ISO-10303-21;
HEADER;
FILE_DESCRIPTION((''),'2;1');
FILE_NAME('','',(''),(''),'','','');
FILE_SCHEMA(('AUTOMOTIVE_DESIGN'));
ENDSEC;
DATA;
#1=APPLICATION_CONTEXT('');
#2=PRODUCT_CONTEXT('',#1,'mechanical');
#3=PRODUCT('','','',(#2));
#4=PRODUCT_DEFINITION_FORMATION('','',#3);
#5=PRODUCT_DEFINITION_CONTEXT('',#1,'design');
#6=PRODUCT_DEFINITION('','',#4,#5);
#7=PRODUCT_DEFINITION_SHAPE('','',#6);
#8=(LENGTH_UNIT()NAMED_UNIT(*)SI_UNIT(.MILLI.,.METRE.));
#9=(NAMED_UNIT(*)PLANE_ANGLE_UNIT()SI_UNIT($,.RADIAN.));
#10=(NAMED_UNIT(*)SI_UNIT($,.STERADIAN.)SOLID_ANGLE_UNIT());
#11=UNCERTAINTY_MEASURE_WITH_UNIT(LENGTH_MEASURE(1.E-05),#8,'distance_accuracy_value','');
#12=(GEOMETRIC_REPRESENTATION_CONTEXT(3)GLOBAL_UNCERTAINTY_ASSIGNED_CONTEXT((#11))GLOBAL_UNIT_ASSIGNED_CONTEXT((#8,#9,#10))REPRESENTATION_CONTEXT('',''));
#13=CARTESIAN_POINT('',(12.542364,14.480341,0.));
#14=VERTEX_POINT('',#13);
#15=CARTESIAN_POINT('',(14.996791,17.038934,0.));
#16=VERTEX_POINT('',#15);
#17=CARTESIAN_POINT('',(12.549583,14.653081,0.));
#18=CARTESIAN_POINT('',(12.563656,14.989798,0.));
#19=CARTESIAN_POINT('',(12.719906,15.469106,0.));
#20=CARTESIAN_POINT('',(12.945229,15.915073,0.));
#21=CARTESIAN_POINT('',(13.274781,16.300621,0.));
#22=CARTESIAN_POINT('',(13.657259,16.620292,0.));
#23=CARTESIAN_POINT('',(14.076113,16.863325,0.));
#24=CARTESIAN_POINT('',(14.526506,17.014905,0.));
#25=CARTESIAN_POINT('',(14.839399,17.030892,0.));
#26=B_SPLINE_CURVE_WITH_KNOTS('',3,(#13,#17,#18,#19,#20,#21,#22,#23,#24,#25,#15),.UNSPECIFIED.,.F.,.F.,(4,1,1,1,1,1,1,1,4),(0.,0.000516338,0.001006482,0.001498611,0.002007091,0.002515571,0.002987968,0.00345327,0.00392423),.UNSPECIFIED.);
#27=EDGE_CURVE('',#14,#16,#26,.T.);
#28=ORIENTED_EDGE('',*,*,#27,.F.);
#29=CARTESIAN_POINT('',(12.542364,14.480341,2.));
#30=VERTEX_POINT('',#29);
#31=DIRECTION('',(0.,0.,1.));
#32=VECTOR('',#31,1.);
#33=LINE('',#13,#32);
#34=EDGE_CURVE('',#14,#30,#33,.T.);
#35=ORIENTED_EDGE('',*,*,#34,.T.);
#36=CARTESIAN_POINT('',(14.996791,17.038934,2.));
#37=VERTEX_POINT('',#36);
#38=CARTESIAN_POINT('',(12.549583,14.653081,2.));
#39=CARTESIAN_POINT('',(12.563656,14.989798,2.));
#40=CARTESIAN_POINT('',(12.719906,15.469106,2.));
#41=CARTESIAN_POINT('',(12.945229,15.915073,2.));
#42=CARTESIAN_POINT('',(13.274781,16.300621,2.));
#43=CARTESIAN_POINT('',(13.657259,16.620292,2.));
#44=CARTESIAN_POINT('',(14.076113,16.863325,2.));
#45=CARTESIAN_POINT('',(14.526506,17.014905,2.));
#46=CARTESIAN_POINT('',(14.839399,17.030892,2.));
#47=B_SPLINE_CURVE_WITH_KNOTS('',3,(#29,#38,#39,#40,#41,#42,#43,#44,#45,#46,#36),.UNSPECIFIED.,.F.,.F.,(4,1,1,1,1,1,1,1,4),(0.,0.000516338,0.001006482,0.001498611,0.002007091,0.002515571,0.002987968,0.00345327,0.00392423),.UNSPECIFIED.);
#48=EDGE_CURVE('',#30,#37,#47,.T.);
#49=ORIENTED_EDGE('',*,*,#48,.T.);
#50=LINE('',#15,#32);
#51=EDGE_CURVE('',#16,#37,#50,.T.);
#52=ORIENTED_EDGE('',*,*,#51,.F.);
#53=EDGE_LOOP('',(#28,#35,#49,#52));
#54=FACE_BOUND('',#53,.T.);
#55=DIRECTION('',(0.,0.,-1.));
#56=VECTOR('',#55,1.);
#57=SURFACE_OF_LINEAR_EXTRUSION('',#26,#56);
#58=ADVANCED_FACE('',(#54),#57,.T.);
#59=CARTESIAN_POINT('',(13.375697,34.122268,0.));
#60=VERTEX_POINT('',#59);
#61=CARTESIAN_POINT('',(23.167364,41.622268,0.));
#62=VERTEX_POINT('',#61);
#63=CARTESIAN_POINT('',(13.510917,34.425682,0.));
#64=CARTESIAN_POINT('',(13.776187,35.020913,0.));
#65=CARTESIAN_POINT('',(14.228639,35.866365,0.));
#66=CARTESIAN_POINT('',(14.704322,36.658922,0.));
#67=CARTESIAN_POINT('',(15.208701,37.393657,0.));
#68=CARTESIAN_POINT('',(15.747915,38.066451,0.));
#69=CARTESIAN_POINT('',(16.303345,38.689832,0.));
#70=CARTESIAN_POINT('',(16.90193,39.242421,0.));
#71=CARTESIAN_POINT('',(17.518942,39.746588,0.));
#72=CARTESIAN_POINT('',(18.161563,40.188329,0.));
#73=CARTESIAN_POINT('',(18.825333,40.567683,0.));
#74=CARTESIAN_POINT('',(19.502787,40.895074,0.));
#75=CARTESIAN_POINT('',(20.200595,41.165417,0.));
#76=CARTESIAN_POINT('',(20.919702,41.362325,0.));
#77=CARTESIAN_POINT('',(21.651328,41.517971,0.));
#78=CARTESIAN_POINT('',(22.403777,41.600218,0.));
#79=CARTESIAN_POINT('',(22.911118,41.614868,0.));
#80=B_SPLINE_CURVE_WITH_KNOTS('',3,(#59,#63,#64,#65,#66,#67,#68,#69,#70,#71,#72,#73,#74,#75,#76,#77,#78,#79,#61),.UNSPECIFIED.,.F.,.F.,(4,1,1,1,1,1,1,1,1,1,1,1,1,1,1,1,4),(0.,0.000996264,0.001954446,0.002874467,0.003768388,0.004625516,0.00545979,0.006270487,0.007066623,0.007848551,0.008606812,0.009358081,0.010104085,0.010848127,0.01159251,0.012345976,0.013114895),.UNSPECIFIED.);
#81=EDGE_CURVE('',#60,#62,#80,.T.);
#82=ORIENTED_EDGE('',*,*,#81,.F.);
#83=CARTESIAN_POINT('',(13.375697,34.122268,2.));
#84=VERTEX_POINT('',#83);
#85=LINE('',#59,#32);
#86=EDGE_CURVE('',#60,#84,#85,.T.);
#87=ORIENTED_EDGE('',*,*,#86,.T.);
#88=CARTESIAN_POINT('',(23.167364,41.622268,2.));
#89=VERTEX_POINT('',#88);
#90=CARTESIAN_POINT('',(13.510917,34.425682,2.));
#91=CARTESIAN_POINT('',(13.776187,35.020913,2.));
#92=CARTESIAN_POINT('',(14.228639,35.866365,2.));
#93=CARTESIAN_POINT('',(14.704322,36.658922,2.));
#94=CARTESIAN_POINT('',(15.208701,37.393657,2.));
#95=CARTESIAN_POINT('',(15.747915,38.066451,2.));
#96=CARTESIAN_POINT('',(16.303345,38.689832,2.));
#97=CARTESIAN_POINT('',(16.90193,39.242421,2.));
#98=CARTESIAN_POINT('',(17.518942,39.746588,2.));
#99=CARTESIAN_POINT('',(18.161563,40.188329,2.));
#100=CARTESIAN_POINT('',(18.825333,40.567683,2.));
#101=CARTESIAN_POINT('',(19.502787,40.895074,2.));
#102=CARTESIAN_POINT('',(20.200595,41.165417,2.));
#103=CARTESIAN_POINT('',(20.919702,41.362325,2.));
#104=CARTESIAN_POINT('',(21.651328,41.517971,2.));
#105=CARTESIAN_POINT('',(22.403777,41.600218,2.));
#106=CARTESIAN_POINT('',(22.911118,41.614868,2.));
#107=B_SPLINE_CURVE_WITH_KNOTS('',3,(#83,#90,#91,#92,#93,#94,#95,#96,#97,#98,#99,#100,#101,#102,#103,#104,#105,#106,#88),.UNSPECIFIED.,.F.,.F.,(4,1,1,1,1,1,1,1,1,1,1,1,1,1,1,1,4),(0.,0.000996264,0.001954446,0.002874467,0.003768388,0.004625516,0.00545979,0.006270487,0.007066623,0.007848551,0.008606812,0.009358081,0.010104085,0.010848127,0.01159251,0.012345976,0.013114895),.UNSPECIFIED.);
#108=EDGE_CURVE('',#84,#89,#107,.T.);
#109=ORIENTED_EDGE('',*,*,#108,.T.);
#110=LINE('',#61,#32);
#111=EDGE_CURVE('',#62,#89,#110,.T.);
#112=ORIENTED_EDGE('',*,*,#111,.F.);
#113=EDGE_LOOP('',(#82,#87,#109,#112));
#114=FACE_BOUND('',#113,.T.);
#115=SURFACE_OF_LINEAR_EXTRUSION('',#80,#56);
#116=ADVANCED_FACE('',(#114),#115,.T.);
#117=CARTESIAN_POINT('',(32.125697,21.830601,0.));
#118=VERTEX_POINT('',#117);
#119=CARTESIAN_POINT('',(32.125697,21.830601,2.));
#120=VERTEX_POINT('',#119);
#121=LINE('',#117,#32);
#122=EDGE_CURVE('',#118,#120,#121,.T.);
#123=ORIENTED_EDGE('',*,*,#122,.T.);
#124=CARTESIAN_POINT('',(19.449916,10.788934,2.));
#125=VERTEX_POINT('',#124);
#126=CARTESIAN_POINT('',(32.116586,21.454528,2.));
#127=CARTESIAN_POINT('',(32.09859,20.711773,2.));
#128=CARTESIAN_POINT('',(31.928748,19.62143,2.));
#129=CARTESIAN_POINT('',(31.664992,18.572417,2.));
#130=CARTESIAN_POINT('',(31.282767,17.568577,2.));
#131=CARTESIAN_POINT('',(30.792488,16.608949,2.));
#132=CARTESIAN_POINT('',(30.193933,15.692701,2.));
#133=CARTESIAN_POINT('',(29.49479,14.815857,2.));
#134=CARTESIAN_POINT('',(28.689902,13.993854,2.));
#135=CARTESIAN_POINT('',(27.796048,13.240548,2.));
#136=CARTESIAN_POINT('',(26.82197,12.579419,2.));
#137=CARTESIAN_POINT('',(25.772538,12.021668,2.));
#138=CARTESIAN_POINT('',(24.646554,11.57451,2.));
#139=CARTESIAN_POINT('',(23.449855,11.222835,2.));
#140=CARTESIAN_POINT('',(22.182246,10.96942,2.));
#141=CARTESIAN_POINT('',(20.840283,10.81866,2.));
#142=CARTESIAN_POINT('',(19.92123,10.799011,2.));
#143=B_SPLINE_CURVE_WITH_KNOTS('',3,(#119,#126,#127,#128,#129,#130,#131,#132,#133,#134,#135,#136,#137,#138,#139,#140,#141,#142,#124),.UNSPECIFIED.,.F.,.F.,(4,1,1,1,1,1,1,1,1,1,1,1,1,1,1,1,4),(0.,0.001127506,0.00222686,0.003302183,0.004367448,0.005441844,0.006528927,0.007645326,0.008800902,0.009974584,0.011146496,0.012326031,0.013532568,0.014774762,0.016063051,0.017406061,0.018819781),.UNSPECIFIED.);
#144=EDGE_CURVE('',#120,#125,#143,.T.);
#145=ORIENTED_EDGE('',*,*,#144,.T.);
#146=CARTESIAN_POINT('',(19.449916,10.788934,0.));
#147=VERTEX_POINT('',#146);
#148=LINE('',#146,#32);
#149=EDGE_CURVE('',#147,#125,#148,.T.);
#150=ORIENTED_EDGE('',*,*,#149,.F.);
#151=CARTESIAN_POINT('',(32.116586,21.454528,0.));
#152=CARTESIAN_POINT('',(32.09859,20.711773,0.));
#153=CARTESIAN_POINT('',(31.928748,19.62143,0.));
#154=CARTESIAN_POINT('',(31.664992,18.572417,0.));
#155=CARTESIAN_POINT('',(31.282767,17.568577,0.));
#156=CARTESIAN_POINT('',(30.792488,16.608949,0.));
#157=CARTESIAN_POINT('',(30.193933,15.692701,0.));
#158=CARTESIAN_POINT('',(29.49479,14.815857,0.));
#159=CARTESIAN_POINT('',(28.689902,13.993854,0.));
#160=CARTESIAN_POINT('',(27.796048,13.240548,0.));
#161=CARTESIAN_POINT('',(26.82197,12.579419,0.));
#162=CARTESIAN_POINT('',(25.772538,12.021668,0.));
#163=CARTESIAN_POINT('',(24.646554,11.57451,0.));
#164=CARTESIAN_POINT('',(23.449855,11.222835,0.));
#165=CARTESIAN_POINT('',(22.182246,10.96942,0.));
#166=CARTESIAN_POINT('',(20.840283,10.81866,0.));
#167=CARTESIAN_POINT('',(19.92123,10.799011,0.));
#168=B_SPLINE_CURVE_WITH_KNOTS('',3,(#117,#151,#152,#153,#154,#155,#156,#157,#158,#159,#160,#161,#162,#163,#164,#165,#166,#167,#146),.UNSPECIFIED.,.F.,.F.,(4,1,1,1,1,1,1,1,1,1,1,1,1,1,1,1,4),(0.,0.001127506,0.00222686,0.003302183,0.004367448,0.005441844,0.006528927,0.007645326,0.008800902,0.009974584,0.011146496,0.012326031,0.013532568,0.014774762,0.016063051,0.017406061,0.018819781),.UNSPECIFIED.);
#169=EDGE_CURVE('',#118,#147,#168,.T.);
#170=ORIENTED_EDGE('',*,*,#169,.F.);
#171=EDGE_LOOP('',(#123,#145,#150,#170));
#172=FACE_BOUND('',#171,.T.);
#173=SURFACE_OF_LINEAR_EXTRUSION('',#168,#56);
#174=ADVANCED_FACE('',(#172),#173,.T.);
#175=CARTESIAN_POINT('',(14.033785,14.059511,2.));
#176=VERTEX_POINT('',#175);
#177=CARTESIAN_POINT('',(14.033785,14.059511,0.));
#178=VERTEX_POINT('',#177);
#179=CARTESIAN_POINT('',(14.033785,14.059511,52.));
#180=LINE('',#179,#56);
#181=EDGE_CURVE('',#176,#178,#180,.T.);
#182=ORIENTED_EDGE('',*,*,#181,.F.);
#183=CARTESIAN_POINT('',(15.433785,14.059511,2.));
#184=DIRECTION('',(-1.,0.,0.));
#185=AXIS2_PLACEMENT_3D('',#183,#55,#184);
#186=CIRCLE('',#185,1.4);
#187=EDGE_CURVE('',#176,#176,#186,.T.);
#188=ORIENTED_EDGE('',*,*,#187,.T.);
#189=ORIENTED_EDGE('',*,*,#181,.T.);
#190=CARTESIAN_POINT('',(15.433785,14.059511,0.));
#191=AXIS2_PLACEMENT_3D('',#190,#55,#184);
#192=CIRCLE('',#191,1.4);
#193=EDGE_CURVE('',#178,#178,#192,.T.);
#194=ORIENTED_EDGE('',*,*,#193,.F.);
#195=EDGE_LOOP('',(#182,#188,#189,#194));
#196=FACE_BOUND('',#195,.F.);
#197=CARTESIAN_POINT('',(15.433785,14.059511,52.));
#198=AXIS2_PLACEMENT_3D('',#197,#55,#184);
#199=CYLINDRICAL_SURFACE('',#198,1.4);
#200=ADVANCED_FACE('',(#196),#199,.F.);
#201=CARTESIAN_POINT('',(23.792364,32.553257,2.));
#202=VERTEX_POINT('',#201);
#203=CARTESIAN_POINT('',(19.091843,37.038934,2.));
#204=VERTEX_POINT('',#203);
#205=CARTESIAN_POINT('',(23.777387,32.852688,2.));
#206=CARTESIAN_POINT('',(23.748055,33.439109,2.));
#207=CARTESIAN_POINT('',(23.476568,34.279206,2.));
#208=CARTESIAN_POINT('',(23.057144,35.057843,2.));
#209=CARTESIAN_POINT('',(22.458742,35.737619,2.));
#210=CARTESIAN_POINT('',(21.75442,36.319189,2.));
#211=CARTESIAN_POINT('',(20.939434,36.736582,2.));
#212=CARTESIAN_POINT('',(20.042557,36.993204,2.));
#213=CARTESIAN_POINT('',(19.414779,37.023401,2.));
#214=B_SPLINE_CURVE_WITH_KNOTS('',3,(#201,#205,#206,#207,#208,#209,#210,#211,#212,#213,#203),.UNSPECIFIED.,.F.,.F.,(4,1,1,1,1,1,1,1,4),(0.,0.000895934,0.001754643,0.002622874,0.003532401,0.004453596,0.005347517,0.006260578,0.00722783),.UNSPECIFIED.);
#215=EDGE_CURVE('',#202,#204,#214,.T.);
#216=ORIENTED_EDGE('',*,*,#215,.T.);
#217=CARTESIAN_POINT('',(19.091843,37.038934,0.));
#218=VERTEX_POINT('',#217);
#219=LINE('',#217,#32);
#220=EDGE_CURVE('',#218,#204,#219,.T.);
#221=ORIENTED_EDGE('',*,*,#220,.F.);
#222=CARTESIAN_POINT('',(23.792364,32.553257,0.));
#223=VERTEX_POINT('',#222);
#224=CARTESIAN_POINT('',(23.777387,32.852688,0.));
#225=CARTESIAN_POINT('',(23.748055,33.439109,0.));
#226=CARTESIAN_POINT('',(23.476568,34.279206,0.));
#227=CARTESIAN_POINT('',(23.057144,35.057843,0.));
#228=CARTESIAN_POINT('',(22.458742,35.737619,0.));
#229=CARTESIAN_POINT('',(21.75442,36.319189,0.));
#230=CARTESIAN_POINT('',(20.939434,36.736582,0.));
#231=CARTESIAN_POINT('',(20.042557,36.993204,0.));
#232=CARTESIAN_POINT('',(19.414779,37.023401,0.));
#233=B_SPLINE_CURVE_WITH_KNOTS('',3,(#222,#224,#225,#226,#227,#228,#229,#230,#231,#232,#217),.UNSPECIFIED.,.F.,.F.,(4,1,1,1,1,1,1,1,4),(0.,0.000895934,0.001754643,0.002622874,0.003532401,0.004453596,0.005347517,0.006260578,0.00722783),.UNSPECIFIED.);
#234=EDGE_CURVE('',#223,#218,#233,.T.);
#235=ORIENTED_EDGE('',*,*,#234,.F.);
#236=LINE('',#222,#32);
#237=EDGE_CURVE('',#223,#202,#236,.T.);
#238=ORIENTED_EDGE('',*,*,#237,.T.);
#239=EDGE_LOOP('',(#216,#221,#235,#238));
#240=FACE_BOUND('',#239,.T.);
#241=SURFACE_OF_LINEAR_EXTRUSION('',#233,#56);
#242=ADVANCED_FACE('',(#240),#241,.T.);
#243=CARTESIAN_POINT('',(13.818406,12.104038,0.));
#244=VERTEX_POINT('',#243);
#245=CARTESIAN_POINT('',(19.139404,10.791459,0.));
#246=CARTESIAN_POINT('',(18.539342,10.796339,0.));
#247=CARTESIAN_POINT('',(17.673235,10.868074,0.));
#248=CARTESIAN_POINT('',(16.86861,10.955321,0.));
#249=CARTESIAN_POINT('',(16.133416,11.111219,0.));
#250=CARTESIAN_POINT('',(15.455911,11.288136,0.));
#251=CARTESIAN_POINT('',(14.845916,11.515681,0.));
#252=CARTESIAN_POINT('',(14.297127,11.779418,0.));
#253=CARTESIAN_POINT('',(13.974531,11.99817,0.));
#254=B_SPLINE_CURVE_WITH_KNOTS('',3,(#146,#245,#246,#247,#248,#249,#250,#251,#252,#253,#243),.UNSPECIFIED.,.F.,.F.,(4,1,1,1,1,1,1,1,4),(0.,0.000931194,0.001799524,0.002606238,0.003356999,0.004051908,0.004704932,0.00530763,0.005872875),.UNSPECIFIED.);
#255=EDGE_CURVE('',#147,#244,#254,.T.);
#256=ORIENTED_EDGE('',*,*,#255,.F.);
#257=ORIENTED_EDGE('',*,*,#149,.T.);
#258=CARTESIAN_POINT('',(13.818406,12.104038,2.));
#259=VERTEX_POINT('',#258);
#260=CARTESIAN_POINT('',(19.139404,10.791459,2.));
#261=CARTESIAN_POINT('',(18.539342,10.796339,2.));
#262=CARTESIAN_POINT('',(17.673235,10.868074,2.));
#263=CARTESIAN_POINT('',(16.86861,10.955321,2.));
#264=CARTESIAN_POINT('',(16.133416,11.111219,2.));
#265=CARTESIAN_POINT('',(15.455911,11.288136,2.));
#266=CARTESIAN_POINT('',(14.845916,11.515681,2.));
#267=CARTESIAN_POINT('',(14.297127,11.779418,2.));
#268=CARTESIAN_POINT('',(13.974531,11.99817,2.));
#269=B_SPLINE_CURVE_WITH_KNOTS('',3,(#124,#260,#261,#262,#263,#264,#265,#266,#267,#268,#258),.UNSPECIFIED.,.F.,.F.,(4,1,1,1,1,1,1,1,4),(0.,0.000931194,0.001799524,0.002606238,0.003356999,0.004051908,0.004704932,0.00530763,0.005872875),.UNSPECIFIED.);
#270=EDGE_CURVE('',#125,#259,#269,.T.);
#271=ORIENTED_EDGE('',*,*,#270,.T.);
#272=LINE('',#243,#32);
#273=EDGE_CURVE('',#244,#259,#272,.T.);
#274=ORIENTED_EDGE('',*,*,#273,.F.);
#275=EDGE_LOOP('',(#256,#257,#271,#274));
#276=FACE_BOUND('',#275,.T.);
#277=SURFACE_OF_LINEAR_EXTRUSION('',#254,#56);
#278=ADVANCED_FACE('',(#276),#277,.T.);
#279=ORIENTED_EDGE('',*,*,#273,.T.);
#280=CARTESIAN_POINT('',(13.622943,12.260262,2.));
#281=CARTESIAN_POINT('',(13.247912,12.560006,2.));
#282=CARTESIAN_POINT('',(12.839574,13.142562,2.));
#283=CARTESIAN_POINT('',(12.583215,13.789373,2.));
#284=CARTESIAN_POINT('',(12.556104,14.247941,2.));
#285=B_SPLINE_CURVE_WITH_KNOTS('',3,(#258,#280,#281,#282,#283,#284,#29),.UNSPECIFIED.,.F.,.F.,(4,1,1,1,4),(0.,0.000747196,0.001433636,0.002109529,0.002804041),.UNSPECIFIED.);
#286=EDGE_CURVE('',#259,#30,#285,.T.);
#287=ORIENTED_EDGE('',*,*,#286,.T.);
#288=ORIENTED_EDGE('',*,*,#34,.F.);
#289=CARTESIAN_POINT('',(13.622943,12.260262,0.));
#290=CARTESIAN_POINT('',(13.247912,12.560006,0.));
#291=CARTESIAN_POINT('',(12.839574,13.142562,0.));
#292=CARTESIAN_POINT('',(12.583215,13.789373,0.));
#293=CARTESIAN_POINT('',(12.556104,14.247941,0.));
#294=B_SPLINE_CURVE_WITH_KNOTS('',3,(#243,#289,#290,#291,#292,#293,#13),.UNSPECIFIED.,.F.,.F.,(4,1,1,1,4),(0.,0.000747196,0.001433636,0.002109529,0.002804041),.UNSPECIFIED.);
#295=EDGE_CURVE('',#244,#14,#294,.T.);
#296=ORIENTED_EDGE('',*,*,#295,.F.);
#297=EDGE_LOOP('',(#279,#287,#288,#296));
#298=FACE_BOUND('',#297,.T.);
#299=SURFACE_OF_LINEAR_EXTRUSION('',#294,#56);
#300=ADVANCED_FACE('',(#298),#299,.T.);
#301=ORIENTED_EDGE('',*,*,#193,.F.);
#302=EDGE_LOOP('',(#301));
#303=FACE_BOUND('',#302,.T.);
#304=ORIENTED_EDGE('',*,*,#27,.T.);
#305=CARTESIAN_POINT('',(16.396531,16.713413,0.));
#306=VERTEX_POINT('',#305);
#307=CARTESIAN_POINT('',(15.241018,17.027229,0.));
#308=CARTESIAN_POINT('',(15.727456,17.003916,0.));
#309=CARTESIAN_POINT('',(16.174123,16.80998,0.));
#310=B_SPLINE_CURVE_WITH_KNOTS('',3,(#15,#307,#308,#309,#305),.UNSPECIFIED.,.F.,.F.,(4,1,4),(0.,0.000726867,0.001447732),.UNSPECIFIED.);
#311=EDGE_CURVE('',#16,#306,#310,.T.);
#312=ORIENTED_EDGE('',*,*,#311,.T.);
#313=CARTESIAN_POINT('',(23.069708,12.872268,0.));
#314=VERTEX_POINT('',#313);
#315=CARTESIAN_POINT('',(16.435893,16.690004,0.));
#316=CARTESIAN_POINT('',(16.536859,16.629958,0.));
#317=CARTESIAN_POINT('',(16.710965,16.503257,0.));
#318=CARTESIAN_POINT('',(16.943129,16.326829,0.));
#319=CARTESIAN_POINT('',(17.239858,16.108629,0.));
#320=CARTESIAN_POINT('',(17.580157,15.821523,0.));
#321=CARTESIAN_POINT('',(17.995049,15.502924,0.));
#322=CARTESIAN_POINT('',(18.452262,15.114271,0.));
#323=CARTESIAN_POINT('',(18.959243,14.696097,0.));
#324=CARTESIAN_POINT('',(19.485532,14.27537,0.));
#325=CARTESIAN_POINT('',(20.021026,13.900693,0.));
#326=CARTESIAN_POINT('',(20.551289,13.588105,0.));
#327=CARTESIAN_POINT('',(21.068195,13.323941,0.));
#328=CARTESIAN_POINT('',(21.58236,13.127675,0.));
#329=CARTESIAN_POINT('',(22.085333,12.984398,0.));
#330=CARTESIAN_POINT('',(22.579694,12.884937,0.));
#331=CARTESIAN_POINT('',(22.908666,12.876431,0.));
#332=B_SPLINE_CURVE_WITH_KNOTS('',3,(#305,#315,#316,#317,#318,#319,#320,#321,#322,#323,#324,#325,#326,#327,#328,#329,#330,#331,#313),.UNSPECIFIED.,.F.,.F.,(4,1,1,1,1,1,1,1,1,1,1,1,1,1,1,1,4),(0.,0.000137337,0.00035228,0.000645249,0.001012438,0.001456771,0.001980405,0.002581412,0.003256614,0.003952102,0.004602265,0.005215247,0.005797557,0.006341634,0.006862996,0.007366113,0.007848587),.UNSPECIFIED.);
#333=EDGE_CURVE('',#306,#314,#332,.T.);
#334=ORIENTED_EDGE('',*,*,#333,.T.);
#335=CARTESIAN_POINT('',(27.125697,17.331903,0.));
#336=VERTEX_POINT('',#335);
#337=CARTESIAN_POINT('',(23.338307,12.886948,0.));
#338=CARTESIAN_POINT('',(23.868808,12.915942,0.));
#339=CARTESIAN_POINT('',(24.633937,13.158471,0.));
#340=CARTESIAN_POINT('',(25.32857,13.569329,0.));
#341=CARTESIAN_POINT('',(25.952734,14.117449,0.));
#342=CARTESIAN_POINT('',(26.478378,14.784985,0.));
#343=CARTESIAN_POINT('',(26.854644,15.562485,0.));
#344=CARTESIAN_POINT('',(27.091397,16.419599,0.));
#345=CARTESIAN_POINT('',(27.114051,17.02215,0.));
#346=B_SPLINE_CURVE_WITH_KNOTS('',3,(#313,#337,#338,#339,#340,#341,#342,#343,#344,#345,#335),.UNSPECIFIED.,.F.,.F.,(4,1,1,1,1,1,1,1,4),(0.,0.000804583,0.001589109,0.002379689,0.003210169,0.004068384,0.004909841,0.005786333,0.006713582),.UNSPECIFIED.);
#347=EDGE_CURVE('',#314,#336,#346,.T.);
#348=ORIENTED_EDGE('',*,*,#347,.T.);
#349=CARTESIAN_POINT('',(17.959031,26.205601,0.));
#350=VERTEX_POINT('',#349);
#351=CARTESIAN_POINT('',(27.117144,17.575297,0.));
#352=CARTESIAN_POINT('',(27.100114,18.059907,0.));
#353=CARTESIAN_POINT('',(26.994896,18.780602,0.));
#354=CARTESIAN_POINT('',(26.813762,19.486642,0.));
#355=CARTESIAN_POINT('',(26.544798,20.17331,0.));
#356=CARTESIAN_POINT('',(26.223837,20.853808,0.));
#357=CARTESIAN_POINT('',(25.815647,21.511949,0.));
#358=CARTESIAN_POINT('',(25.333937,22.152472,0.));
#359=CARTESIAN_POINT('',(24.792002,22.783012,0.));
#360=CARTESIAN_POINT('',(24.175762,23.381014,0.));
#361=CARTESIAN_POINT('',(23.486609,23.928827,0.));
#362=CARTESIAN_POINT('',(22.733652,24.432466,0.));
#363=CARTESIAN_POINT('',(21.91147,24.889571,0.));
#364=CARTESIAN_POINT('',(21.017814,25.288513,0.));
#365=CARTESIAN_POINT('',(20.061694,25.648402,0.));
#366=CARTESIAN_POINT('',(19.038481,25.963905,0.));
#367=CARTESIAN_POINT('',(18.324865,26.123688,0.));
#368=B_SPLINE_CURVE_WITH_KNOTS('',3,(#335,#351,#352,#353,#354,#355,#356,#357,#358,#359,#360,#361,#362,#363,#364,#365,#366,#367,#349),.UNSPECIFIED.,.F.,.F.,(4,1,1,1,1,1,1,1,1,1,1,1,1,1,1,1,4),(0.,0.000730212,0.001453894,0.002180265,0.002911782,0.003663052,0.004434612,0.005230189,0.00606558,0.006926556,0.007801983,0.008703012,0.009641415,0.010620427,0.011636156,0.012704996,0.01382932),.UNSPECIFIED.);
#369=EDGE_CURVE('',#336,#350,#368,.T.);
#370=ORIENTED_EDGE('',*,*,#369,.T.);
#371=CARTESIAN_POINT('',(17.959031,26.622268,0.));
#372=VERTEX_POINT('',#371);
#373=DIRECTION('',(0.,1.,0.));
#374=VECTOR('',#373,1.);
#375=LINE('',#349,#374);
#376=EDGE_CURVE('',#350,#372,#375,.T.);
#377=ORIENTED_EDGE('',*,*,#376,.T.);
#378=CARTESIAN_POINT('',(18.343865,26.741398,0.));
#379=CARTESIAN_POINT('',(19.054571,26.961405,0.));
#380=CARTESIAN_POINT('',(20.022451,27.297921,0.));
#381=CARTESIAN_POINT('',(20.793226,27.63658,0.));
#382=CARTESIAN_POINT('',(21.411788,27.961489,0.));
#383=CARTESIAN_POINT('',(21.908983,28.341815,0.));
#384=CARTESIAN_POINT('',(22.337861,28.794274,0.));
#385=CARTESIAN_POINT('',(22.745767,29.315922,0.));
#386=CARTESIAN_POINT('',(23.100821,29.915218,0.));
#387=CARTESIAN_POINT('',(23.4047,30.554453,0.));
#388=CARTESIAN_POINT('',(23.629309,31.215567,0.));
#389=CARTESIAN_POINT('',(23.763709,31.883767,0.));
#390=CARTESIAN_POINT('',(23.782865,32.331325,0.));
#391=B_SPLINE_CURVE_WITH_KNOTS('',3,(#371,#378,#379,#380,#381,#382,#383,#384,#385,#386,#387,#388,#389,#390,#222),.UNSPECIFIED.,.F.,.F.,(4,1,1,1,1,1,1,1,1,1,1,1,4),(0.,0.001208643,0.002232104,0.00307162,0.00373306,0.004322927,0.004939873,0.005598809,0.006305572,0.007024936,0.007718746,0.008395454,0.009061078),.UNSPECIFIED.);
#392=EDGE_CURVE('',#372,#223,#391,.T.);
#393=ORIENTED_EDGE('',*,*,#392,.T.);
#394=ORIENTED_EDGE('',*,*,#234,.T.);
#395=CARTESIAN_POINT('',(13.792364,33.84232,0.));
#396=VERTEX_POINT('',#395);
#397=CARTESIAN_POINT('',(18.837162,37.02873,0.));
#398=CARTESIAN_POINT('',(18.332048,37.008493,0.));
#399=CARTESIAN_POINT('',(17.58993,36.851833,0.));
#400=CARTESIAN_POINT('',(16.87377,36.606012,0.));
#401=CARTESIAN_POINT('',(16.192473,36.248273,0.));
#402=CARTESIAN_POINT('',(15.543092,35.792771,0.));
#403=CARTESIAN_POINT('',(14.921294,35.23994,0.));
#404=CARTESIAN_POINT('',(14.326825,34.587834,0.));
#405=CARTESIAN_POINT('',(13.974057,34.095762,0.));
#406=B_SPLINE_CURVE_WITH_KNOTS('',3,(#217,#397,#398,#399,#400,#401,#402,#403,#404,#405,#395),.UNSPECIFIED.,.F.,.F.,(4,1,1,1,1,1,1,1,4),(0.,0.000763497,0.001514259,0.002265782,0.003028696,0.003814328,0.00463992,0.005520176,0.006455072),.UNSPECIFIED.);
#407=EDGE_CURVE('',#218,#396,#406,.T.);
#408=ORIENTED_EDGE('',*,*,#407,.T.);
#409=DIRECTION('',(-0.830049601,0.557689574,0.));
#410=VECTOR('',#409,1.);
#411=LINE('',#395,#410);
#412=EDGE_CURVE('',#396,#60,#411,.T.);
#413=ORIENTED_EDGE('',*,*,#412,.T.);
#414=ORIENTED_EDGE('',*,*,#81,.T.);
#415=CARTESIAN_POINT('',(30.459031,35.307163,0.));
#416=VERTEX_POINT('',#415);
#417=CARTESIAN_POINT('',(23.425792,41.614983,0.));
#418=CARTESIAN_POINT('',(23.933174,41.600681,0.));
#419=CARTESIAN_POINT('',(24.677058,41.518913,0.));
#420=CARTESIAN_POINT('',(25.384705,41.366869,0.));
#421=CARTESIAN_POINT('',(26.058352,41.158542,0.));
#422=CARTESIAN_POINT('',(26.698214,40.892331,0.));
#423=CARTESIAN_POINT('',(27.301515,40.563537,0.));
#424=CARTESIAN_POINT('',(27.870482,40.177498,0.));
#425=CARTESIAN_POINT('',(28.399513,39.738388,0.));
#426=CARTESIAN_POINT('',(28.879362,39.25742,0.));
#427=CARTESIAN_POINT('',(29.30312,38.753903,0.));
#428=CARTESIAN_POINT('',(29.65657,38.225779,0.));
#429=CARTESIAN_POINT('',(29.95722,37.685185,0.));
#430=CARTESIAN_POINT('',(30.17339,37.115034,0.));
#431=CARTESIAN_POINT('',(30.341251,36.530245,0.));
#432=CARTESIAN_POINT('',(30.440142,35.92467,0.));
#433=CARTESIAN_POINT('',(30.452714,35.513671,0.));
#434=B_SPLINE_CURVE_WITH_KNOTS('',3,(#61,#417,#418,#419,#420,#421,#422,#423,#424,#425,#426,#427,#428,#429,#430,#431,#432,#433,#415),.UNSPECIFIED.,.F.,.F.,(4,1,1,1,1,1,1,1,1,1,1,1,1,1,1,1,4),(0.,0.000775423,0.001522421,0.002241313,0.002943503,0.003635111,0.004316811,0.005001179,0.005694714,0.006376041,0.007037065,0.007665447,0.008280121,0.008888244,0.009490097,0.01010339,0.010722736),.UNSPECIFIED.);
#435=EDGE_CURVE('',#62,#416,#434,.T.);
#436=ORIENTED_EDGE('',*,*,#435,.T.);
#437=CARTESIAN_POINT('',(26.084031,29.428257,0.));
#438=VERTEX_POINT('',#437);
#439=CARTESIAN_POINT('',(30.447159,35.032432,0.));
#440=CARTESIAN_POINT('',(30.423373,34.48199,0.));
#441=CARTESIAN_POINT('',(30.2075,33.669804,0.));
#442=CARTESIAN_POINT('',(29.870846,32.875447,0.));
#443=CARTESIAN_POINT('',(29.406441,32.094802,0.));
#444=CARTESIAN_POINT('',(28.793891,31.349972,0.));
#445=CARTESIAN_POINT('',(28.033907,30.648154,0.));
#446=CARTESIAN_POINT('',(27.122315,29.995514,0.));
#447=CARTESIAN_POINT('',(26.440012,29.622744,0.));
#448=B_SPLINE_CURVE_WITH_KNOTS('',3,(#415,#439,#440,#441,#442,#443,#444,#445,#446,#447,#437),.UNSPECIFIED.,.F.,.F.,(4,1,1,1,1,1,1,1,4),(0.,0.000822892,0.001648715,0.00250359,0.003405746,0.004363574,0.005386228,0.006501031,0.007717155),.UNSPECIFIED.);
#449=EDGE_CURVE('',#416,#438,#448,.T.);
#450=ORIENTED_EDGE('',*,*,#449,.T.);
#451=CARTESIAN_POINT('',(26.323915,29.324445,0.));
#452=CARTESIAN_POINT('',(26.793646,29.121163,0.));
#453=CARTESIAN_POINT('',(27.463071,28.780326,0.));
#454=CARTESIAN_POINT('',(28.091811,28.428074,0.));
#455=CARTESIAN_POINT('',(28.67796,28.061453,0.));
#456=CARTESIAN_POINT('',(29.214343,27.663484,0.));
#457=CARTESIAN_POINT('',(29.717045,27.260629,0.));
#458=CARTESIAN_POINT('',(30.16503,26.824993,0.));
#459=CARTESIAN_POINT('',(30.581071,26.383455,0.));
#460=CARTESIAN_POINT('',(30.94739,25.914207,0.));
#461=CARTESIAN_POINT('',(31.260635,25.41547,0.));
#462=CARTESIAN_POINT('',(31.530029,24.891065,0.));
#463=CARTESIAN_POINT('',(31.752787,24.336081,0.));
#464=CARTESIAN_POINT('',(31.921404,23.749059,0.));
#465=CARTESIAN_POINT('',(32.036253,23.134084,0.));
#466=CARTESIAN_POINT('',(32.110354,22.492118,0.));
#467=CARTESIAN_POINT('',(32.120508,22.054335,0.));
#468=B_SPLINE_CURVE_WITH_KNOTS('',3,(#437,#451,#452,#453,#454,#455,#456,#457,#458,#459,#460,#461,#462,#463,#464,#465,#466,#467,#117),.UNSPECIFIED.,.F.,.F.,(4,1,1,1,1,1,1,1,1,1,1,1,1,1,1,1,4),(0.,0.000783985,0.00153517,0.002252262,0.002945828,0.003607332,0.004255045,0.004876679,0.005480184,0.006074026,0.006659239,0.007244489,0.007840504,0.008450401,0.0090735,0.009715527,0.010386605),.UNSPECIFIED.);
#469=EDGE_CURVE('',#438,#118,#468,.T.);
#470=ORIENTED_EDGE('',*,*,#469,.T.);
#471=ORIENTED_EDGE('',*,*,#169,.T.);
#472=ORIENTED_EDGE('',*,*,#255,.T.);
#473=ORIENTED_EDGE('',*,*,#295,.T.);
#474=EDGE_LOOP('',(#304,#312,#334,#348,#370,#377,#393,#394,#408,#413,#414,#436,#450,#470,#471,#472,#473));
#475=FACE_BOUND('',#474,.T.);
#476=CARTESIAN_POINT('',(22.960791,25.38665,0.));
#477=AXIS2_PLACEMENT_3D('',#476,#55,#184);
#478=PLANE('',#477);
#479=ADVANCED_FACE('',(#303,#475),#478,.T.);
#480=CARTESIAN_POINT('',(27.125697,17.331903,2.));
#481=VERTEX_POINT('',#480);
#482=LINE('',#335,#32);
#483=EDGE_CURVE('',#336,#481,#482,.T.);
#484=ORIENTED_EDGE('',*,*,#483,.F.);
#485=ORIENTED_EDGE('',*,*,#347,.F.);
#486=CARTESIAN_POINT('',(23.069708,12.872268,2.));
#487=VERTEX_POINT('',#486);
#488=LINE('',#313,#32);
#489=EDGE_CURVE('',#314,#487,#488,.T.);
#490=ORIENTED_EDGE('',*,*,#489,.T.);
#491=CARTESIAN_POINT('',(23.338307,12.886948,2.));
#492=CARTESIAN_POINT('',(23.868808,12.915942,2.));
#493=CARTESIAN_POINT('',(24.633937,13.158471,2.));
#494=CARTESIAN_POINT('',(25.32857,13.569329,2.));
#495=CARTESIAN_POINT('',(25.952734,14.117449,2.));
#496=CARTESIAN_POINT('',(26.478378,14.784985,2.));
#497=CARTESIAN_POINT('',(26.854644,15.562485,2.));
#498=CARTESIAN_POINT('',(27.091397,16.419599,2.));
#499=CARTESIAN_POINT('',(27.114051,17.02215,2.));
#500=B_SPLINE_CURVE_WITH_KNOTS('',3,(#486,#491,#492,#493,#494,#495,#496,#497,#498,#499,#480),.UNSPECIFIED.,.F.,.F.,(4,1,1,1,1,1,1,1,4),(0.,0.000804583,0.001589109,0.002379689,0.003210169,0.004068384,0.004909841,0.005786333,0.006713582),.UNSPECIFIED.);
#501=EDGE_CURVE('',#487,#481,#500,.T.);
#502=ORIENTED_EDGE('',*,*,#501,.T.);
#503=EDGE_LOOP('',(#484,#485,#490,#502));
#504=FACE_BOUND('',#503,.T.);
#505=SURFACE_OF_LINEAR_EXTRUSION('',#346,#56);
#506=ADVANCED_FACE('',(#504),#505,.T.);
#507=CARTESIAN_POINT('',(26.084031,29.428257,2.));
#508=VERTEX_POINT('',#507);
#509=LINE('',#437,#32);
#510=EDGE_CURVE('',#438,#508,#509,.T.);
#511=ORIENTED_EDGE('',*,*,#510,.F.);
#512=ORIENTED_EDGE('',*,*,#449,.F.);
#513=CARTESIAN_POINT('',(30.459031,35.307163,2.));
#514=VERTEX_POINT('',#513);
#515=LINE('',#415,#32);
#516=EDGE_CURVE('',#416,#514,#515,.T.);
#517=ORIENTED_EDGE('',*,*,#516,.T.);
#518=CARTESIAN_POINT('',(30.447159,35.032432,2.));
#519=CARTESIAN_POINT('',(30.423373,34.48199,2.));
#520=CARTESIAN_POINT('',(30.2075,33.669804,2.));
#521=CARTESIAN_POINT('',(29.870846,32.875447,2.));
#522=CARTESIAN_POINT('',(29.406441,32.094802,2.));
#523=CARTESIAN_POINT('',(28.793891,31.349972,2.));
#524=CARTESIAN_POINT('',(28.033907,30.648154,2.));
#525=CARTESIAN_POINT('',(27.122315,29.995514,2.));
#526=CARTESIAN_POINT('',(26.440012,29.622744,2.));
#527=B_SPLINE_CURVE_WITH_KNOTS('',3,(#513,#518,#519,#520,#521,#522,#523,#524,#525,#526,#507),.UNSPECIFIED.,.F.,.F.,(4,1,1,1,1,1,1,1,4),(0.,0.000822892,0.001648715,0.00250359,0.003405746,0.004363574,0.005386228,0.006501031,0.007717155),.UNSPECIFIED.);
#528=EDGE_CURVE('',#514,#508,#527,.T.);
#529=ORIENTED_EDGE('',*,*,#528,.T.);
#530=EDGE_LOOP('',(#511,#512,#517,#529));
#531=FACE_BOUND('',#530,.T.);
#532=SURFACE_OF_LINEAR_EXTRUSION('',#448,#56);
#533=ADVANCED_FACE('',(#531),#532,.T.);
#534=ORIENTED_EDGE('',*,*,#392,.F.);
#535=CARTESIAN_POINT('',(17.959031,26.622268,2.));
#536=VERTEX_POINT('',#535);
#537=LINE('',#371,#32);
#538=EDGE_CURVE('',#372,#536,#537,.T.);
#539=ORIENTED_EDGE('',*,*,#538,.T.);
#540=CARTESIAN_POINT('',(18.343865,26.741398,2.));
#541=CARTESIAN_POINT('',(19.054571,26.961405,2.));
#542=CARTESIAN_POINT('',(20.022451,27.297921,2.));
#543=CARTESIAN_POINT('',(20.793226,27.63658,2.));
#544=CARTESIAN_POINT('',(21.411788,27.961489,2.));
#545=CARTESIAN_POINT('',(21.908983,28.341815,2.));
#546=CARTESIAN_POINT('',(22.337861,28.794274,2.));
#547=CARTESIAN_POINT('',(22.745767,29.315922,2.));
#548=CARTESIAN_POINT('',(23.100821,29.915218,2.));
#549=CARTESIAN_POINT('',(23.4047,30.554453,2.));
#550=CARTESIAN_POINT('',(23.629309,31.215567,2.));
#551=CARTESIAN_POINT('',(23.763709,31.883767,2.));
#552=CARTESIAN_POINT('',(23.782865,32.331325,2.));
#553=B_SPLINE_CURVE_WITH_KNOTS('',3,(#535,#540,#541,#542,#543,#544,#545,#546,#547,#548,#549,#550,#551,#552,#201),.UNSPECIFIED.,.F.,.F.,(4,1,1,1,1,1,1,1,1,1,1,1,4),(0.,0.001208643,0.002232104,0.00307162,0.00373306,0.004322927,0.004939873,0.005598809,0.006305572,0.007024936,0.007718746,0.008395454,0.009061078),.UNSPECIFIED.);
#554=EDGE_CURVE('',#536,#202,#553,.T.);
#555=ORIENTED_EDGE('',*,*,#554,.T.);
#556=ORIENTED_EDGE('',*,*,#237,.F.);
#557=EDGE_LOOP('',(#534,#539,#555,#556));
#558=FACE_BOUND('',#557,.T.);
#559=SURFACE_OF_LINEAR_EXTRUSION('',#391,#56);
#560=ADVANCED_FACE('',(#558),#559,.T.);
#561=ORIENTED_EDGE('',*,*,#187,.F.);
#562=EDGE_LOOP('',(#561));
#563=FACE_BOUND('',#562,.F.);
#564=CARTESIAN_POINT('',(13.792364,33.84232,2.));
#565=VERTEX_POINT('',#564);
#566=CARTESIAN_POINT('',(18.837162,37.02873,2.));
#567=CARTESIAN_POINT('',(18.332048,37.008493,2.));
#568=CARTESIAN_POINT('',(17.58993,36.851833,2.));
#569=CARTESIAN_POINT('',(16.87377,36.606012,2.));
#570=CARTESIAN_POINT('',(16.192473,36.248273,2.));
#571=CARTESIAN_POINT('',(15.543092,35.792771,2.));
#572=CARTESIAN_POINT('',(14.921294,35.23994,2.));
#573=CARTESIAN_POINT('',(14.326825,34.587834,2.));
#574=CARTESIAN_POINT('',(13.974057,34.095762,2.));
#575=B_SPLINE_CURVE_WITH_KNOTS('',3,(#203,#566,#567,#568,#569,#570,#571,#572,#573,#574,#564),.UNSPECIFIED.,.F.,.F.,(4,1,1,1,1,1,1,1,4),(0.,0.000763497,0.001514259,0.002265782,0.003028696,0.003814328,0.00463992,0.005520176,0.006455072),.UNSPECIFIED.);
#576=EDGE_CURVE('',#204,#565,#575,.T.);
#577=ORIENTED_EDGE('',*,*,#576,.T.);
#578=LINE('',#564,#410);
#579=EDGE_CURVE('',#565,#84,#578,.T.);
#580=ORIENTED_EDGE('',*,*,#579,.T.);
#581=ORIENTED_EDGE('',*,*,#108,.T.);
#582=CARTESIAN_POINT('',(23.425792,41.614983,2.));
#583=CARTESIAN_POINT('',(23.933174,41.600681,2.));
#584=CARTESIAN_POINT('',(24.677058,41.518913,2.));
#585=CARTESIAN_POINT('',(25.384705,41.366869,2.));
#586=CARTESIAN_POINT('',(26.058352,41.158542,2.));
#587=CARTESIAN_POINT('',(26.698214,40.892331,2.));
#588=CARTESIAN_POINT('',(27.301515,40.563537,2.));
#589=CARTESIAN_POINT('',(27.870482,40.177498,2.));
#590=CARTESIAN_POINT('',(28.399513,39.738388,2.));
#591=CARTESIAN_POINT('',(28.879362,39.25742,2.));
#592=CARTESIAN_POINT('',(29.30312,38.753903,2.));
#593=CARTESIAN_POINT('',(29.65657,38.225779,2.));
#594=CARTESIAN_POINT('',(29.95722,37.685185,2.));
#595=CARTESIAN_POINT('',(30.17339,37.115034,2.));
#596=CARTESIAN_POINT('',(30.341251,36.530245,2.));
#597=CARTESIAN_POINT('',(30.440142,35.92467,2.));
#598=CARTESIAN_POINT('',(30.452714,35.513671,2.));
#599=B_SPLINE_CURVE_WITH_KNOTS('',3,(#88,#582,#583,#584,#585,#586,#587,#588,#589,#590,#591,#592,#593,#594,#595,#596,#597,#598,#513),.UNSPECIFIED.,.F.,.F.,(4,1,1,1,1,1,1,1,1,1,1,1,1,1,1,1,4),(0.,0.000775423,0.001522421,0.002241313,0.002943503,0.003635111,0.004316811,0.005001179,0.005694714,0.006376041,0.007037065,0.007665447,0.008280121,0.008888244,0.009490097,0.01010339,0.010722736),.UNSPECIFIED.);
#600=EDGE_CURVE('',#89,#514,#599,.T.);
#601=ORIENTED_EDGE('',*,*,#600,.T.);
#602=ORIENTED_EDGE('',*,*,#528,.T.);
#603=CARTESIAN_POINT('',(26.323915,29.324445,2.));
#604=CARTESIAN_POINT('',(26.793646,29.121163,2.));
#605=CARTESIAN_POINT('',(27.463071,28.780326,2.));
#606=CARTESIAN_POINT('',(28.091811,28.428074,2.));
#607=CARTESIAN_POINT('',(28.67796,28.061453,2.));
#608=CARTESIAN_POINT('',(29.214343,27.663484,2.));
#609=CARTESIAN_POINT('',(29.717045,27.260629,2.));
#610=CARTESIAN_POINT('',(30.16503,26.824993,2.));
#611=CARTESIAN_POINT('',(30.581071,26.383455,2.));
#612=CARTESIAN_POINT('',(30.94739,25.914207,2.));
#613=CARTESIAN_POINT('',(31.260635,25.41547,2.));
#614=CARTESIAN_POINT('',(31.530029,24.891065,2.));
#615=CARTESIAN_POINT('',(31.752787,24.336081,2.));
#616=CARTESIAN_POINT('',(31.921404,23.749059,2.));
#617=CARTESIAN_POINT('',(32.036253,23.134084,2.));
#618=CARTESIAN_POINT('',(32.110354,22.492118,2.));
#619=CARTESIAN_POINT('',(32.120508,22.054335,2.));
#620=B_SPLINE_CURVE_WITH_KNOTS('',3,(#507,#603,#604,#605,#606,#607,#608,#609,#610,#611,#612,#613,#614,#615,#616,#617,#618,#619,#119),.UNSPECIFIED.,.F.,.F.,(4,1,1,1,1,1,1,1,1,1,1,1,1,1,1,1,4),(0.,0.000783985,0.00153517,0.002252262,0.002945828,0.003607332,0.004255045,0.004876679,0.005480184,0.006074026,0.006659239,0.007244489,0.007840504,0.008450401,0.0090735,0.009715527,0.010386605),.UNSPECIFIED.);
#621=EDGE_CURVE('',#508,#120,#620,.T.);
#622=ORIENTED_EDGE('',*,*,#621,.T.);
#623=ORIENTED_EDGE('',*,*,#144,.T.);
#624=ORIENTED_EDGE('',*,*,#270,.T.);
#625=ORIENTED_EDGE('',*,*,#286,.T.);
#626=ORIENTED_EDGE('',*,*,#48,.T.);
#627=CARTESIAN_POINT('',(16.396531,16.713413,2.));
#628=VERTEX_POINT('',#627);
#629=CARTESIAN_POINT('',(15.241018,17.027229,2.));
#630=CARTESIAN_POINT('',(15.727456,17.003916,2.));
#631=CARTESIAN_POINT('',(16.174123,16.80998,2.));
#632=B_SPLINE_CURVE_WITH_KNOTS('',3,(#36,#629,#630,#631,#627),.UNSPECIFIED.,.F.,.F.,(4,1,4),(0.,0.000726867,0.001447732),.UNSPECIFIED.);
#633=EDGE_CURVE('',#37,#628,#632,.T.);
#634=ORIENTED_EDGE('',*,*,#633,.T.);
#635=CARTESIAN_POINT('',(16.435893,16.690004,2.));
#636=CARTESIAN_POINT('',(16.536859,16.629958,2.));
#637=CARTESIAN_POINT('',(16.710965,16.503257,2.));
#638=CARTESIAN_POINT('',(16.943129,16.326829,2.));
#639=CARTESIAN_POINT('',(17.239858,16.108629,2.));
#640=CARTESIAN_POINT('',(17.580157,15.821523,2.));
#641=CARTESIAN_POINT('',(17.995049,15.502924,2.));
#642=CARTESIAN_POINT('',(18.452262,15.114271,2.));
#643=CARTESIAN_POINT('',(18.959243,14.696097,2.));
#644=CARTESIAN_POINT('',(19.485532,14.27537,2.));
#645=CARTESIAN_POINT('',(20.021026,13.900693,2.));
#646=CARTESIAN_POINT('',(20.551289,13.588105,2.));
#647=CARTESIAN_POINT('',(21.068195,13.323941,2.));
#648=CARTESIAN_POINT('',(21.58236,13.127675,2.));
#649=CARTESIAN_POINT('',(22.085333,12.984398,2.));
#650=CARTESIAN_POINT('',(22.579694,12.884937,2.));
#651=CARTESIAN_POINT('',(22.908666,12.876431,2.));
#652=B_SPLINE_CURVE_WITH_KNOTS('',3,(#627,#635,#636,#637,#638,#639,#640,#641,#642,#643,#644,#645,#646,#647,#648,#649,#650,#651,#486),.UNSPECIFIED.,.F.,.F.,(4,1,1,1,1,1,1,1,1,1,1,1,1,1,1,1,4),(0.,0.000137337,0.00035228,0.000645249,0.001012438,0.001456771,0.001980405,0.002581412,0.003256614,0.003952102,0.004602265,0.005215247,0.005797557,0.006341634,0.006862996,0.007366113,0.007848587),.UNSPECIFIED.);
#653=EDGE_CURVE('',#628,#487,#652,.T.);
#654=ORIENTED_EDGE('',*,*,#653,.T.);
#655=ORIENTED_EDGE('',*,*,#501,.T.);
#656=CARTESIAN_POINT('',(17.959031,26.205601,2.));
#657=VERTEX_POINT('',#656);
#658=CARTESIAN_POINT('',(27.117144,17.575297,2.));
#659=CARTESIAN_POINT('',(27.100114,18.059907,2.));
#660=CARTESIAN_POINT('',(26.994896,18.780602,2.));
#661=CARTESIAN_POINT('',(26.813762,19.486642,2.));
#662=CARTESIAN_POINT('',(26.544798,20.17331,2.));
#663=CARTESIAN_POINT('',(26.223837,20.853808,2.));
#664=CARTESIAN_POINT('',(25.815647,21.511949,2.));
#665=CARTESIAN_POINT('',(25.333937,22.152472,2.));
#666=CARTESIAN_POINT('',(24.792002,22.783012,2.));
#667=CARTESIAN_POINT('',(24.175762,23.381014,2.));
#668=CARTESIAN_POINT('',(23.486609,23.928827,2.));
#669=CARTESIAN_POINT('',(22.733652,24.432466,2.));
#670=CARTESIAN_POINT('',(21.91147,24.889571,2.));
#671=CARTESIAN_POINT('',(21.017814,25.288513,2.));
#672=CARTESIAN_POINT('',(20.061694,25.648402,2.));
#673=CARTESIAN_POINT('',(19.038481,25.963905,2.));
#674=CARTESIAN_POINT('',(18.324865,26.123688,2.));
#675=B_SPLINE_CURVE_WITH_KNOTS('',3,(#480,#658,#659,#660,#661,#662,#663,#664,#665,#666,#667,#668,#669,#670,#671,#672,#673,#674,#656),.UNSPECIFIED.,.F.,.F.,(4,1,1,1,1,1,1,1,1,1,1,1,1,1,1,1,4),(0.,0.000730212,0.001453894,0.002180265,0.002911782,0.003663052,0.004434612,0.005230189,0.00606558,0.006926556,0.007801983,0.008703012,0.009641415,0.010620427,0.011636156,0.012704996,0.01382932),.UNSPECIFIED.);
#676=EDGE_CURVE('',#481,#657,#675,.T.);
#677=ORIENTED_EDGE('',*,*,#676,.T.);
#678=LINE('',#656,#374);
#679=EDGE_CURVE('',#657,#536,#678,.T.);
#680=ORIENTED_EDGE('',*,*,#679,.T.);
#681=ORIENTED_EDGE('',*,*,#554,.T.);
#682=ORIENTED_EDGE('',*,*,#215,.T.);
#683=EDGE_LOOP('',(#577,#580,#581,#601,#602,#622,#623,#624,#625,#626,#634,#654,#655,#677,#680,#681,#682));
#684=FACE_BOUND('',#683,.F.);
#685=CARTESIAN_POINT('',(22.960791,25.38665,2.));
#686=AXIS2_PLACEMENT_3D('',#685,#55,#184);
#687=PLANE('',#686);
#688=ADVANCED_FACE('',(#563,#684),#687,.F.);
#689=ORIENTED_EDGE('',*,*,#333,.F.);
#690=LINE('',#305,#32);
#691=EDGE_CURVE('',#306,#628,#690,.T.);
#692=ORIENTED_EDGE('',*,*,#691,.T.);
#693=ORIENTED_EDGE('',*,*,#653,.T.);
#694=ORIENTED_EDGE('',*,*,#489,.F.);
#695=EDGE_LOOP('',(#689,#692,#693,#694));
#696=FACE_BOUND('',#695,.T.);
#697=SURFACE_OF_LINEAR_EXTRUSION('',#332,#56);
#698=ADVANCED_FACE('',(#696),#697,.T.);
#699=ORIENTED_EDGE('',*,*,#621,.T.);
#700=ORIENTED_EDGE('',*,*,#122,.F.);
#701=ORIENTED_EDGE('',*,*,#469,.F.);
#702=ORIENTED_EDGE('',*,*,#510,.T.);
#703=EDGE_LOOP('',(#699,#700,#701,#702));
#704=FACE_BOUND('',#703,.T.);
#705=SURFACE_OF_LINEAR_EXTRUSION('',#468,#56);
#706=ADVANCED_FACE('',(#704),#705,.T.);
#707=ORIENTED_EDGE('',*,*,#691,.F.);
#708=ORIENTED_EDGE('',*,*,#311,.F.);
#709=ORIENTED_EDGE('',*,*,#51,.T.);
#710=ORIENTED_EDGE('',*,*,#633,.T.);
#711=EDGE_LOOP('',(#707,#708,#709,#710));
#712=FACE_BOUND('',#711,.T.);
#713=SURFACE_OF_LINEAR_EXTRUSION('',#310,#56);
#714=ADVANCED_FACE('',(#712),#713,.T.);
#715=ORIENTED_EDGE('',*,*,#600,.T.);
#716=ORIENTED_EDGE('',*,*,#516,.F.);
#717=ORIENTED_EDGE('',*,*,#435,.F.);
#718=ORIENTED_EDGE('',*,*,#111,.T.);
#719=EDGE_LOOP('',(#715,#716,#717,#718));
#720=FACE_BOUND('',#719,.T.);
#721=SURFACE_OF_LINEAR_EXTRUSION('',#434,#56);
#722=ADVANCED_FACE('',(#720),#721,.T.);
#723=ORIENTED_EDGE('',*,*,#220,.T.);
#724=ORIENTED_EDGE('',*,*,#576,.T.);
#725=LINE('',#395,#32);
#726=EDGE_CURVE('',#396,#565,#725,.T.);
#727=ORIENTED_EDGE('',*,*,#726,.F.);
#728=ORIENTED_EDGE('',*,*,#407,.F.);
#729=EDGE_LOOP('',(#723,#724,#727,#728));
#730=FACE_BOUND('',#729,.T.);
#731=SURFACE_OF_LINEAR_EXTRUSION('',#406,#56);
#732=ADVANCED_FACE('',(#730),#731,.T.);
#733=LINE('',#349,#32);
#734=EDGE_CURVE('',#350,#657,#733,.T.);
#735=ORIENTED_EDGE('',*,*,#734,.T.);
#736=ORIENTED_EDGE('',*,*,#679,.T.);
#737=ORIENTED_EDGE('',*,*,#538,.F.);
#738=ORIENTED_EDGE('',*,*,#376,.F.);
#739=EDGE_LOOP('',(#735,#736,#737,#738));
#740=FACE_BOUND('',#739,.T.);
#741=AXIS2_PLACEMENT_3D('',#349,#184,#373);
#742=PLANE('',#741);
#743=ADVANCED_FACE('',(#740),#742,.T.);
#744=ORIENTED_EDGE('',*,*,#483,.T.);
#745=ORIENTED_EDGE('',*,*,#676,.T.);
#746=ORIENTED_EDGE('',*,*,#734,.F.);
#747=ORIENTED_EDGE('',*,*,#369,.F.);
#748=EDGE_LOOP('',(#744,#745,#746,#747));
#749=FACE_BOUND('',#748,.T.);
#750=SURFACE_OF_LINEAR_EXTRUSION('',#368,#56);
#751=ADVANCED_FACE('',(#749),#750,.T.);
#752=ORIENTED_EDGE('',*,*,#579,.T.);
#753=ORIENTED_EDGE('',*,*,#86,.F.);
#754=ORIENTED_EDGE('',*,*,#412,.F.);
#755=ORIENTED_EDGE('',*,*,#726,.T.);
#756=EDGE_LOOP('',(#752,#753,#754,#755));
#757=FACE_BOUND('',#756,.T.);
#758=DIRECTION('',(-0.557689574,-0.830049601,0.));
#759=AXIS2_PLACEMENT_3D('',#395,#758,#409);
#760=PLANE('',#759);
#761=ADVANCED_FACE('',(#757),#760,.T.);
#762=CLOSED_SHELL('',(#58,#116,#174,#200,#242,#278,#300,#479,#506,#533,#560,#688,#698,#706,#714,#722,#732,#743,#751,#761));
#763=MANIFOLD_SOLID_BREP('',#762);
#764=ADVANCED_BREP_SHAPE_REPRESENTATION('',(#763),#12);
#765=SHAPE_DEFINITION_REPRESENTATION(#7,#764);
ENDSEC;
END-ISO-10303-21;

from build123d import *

# Parameters (mm, degrees)
BOSS_EXTRU_1_DEPTH     = 2
D_GAGEMENT_M1_61_D     = 2.8
D_GAGEMENT_M1_61_DEPTH = 50


with BuildPart() as part:
    # Esquisse1 → Boss.-Extru.1 (new body)
    with BuildSketch(Plane.XY):
        with BuildLine():
            Line((17.959030639, 26.205600965), (17.959030639, 26.622267631))
            add(Edge.make_bspline(
                [(17.959030639, 26.622267631), (18.343864616, 26.741397646), (19.054570562, 26.961405273), (20.022450596, 27.297920725), (20.793226188, 27.636579921), (21.41178798, 27.961488766), (21.908982881, 28.341815064), (22.337860827, 28.794274398), (22.745767228, 29.315922342), (23.100821165, 29.915217516), (23.404700203, 30.554453208), (23.629309446, 31.215567304), (23.763709267, 31.883766695), (23.782865125, 32.331325489), (23.792363972, 32.553257215)],
                knots=[0, 0, 0, 0, 0.001208643, 0.002232104, 0.00307162, 0.00373306, 0.004322927, 0.004939873, 0.005598809, 0.006305572, 0.007024936, 0.007718746, 0.008395454, 0.009061078, 0.009061078, 0.009061078, 0.009061078], degree=3))
            add(Edge.make_bspline(
                [(23.792363972, 32.553257215), (23.777386918, 32.852688112), (23.748055085, 33.439108991), (23.476567737, 34.279205766), (23.05714352, 35.057842573), (22.458742382, 35.737618504), (21.754419772, 36.319188825), (20.93943387, 36.736582451), (20.042557045, 36.993204136), (19.414778602, 37.023400823), (19.091843139, 37.038934298)],
                knots=[0, 0, 0, 0, 0.000895934, 0.001754643, 0.002622874, 0.003532401, 0.004453596, 0.005347517, 0.006260578, 0.00722783, 0.00722783, 0.00722783, 0.00722783], degree=3))
            add(Edge.make_bspline(
                [(19.091843139, 37.038934298), (18.837161984, 37.028730471), (18.332048004, 37.008493028), (17.589929818, 36.851833428), (16.873770404, 36.606012306), (16.192473244, 36.248273134), (15.543091586, 35.792770869), (14.921293512, 35.239939745), (14.326825129, 34.587834171), (13.974057459, 34.09576212), (13.792363972, 33.842319715)],
                knots=[0, 0, 0, 0, 0.000763497, 0.001514259, 0.002265782, 0.003028696, 0.003814328, 0.00463992, 0.005520176, 0.006455072, 0.006455072, 0.006455072, 0.006455072], degree=3))
            Line((13.792363972, 33.842319715), (13.375697305, 34.122267631))
            add(Edge.make_bspline(
                [(13.375697305, 34.122267631), (13.510916636, 34.425682129), (13.776186581, 35.020913198), (14.228639052, 35.866364802), (14.704321949, 36.658922192), (15.208701066, 37.393656614), (15.747914733, 38.066450786), (16.30334539, 38.689832329), (16.901929928, 39.242421404), (17.518942178, 39.746587607), (18.161562629, 40.188329144), (18.825333438, 40.56768276), (19.502786648, 40.895073714), (20.200594753, 41.165416985), (20.919701634, 41.362325279), (21.651327947, 41.517971289), (22.403776863, 41.600218242), (22.911118447, 41.614868269), (23.167363972, 41.622267631)],
                knots=[0, 0, 0, 0, 0.000996264, 0.001954446, 0.002874467, 0.003768388, 0.004625516, 0.00545979, 0.006270487, 0.007066623, 0.007848551, 0.008606812, 0.009358081, 0.010104085, 0.010848127, 0.01159251, 0.012345976, 0.013114895, 0.013114895, 0.013114895, 0.013114895], degree=3))
            add(Edge.make_bspline(
                [(23.167363972, 41.622267631), (23.425791745, 41.614983016), (23.933173823, 41.600680825), (24.677057927, 41.518913442), (25.384705116, 41.366868736), (26.058351561, 41.158541993), (26.698214256, 40.8923311), (27.301514696, 40.563537155), (27.870481667, 40.17749841), (28.399513113, 39.738387953), (28.879361945, 39.257419617), (29.303120014, 38.753903461), (29.656569633, 38.225779159), (29.957219958, 37.685185331), (30.173389647, 37.115034391), (30.341250724, 36.530244936), (30.440141633, 35.924669619), (30.452713728, 35.51367148), (30.459030639, 35.307163465)],
                knots=[0, 0, 0, 0, 0.000775423, 0.001522421, 0.002241313, 0.002943503, 0.003635111, 0.004316811, 0.005001179, 0.005694714, 0.006376041, 0.007037065, 0.007665447, 0.008280121, 0.008888244, 0.009490097, 0.01010339, 0.010722736, 0.010722736, 0.010722736, 0.010722736], degree=3))
            add(Edge.make_bspline(
                [(30.459030639, 35.307163465), (30.447158807, 35.032431887), (30.423372861, 34.481990271), (30.207499814, 33.669804093), (29.870845724, 32.875447195), (29.406441017, 32.094801504), (28.793891015, 31.349972333), (28.033907379, 30.648154276), (27.122314827, 29.995513978), (26.440011523, 29.62274401), (26.084030639, 29.428257215)],
                knots=[0, 0, 0, 0, 0.000822892, 0.001648715, 0.00250359, 0.003405746, 0.004363574, 0.005386228, 0.006501031, 0.007717155, 0.007717155, 0.007717155, 0.007717155], degree=3))
            add(Edge.make_bspline(
                [(26.084030639, 29.428257215), (26.323914541, 29.324444629), (26.793646108, 29.121162758), (27.463071461, 28.780326156), (28.091811141, 28.428074399), (28.677960237, 28.061453436), (29.21434292, 27.663484448), (29.717044592, 27.260629192), (30.165030422, 26.824993358), (30.581071213, 26.383454807), (30.947389596, 25.914206817), (31.260635471, 25.415469605), (31.530028979, 24.891065411), (31.752787412, 24.33608079), (31.921404001, 23.749058536), (32.036253088, 23.134083858), (32.110353733, 22.492118171), (32.120507898, 22.054335181), (32.125697305, 21.830600965)],
                knots=[0, 0, 0, 0, 0.000783985, 0.00153517, 0.002252262, 0.002945828, 0.003607332, 0.004255045, 0.004876679, 0.005480184, 0.006074026, 0.006659239, 0.007244489, 0.007840504, 0.008450401, 0.0090735, 0.009715527, 0.010386605, 0.010386605, 0.010386605, 0.010386605], degree=3))
            add(Edge.make_bspline(
                [(32.125697305, 21.830600965), (32.116585867, 21.454528433), (32.09859048, 20.711772938), (31.928747652, 19.621430171), (31.664992357, 18.572417194), (31.282766685, 17.568576979), (30.792488355, 16.608949336), (30.193933235, 15.692700581), (29.494790214, 14.815856568), (28.689901662, 13.993854034), (27.796047655, 13.240547726), (26.82196978, 12.579418652), (25.772537841, 12.021668432), (24.646553648, 11.574509682), (23.449854527, 11.222835447), (22.182246271, 10.969420114), (20.840283071, 10.818660473), (19.92122973, 10.799011028), (19.449916055, 10.788934298)],
                knots=[0, 0, 0, 0, 0.001127506, 0.00222686, 0.003302183, 0.004367448, 0.005441844, 0.006528927, 0.007645326, 0.008800902, 0.009974584, 0.011146496, 0.012326031, 0.013532568, 0.014774762, 0.016063051, 0.017406061, 0.018819781, 0.018819781, 0.018819781, 0.018819781], degree=3))
            add(Edge.make_bspline(
                [(19.449916055, 10.788934298), (19.1394039, 10.791459247), (18.539342266, 10.796338687), (17.673235137, 10.868073843), (16.86860967, 10.955320781), (16.133415709, 11.111218727), (15.455910697, 11.288135838), (14.845916443, 11.515680504), (14.297126694, 11.779418084), (13.974531131, 11.998169888), (13.818405639, 12.104038465)],
                knots=[0, 0, 0, 0, 0.000931194, 0.001799524, 0.002606238, 0.003356999, 0.004051908, 0.004704932, 0.00530763, 0.005872875, 0.005872875, 0.005872875, 0.005872875], degree=3))
            add(Edge.make_bspline(
                [(13.818405639, 12.104038465), (13.622943123, 12.260262087), (13.247911582, 12.560006441), (12.839574491, 13.142561528), (12.583214643, 13.789372904), (12.556103646, 14.24794118), (12.542363972, 14.480340548)],
                knots=[0, 0, 0, 0, 0.000747196, 0.001433636, 0.002109529, 0.002804041, 0.002804041, 0.002804041, 0.002804041], degree=3))
            add(Edge.make_bspline(
                [(12.542363972, 14.480340548), (12.549583483, 14.653080665), (12.563656256, 14.989797732), (12.719906346, 15.469105965), (12.94522911, 15.915073284), (13.274781311, 16.300621428), (13.657259063, 16.62029218), (14.076113089, 16.863324884), (14.526506031, 17.014904891), (14.839398992, 17.030892286), (14.996791055, 17.038934298)],
                knots=[0, 0, 0, 0, 0.000516338, 0.001006482, 0.001498611, 0.002007091, 0.002515571, 0.002987968, 0.00345327, 0.00392423, 0.00392423, 0.00392423, 0.00392423], degree=3))
            add(Edge.make_bspline(
                [(14.996791055, 17.038934298), (15.241018236, 17.027229373), (15.727455987, 17.003916171), (16.174123, 16.809979701), (16.396530639, 16.713413465)],
                knots=[0, 0, 0, 0, 0.000726867, 0.001447732, 0.001447732, 0.001447732, 0.001447732], degree=3))
            add(Edge.make_bspline(
                [(16.396530639, 16.713413465), (16.435892602, 16.690004381), (16.536858718, 16.629958487), (16.710965114, 16.503256943), (16.943128645, 16.326829434), (17.239857644, 16.108629339), (17.580157452, 15.821522929), (17.995048658, 15.502924159), (18.452261546, 15.11427143), (18.959242705, 14.696096576), (19.485532123, 14.275369842), (20.021026068, 13.90069265), (20.551288651, 13.588104953), (21.068195453, 13.323940502), (21.582360269, 13.12767496), (22.085332973, 12.98439783), (22.579693672, 12.884937338), (22.908666405, 12.876431484), (23.069707722, 12.872267631)],
                knots=[0, 0, 0, 0, 0.000137337, 0.00035228, 0.000645249, 0.001012438, 0.001456771, 0.001980405, 0.002581412, 0.003256614, 0.003952102, 0.004602265, 0.005215247, 0.005797557, 0.006341634, 0.006862996, 0.007366113, 0.007848587, 0.007848587, 0.007848587, 0.007848587], degree=3))
            add(Edge.make_bspline(
                [(23.069707722, 12.872267631), (23.338306519, 12.886947683), (23.868808121, 12.915941824), (24.633937345, 13.158470559), (25.328570089, 13.56932886), (25.952733661, 14.117449245), (26.478377861, 14.784984831), (26.85464363, 15.562484997), (27.091396847, 16.419598566), (27.114051321, 17.022149636), (27.125697305, 17.331903048)],
                knots=[0, 0, 0, 0, 0.000804583, 0.001589109, 0.002379689, 0.003210169, 0.004068384, 0.004909841, 0.005786333, 0.006713582, 0.006713582, 0.006713582, 0.006713582], degree=3))
            add(Edge.make_bspline(
                [(27.125697305, 17.331903048), (27.117144204, 17.575296651), (27.100114493, 18.059907185), (26.99489612, 18.780602047), (26.813762292, 19.486642151), (26.544798244, 20.173310162), (26.223836644, 20.853807897), (25.815647288, 21.511948927), (25.333937106, 22.152472296), (24.792001689, 22.783011859), (24.175761846, 23.381013515), (23.486608569, 23.928826911), (22.733652267, 24.432466304), (21.911470291, 24.889571318), (21.017813721, 25.288512907), (20.061694455, 25.64840206), (19.038481137, 25.963905147), (18.324865466, 26.123688225), (17.959030639, 26.205600965)],
                knots=[0, 0, 0, 0, 0.000730212, 0.001453894, 0.002180265, 0.002911782, 0.003663052, 0.004434612, 0.005230189, 0.00606558, 0.006926556, 0.007801983, 0.008703012, 0.009641415, 0.010620427, 0.011636156, 0.012704996, 0.01382932, 0.01382932, 0.01382932, 0.01382932], degree=3))
        make_face()
    extrude(amount=BOSS_EXTRU_1_DEPTH)

    # Dégagement M1.61
    with Locations(Plane.XY.offset(2)):
        with Locations((15.433784775, 14.059510845)):
            Hole(D_GAGEMENT_M1_61_D / 2, depth=D_GAGEMENT_M1_61_DEPTH)


solid = part.part
